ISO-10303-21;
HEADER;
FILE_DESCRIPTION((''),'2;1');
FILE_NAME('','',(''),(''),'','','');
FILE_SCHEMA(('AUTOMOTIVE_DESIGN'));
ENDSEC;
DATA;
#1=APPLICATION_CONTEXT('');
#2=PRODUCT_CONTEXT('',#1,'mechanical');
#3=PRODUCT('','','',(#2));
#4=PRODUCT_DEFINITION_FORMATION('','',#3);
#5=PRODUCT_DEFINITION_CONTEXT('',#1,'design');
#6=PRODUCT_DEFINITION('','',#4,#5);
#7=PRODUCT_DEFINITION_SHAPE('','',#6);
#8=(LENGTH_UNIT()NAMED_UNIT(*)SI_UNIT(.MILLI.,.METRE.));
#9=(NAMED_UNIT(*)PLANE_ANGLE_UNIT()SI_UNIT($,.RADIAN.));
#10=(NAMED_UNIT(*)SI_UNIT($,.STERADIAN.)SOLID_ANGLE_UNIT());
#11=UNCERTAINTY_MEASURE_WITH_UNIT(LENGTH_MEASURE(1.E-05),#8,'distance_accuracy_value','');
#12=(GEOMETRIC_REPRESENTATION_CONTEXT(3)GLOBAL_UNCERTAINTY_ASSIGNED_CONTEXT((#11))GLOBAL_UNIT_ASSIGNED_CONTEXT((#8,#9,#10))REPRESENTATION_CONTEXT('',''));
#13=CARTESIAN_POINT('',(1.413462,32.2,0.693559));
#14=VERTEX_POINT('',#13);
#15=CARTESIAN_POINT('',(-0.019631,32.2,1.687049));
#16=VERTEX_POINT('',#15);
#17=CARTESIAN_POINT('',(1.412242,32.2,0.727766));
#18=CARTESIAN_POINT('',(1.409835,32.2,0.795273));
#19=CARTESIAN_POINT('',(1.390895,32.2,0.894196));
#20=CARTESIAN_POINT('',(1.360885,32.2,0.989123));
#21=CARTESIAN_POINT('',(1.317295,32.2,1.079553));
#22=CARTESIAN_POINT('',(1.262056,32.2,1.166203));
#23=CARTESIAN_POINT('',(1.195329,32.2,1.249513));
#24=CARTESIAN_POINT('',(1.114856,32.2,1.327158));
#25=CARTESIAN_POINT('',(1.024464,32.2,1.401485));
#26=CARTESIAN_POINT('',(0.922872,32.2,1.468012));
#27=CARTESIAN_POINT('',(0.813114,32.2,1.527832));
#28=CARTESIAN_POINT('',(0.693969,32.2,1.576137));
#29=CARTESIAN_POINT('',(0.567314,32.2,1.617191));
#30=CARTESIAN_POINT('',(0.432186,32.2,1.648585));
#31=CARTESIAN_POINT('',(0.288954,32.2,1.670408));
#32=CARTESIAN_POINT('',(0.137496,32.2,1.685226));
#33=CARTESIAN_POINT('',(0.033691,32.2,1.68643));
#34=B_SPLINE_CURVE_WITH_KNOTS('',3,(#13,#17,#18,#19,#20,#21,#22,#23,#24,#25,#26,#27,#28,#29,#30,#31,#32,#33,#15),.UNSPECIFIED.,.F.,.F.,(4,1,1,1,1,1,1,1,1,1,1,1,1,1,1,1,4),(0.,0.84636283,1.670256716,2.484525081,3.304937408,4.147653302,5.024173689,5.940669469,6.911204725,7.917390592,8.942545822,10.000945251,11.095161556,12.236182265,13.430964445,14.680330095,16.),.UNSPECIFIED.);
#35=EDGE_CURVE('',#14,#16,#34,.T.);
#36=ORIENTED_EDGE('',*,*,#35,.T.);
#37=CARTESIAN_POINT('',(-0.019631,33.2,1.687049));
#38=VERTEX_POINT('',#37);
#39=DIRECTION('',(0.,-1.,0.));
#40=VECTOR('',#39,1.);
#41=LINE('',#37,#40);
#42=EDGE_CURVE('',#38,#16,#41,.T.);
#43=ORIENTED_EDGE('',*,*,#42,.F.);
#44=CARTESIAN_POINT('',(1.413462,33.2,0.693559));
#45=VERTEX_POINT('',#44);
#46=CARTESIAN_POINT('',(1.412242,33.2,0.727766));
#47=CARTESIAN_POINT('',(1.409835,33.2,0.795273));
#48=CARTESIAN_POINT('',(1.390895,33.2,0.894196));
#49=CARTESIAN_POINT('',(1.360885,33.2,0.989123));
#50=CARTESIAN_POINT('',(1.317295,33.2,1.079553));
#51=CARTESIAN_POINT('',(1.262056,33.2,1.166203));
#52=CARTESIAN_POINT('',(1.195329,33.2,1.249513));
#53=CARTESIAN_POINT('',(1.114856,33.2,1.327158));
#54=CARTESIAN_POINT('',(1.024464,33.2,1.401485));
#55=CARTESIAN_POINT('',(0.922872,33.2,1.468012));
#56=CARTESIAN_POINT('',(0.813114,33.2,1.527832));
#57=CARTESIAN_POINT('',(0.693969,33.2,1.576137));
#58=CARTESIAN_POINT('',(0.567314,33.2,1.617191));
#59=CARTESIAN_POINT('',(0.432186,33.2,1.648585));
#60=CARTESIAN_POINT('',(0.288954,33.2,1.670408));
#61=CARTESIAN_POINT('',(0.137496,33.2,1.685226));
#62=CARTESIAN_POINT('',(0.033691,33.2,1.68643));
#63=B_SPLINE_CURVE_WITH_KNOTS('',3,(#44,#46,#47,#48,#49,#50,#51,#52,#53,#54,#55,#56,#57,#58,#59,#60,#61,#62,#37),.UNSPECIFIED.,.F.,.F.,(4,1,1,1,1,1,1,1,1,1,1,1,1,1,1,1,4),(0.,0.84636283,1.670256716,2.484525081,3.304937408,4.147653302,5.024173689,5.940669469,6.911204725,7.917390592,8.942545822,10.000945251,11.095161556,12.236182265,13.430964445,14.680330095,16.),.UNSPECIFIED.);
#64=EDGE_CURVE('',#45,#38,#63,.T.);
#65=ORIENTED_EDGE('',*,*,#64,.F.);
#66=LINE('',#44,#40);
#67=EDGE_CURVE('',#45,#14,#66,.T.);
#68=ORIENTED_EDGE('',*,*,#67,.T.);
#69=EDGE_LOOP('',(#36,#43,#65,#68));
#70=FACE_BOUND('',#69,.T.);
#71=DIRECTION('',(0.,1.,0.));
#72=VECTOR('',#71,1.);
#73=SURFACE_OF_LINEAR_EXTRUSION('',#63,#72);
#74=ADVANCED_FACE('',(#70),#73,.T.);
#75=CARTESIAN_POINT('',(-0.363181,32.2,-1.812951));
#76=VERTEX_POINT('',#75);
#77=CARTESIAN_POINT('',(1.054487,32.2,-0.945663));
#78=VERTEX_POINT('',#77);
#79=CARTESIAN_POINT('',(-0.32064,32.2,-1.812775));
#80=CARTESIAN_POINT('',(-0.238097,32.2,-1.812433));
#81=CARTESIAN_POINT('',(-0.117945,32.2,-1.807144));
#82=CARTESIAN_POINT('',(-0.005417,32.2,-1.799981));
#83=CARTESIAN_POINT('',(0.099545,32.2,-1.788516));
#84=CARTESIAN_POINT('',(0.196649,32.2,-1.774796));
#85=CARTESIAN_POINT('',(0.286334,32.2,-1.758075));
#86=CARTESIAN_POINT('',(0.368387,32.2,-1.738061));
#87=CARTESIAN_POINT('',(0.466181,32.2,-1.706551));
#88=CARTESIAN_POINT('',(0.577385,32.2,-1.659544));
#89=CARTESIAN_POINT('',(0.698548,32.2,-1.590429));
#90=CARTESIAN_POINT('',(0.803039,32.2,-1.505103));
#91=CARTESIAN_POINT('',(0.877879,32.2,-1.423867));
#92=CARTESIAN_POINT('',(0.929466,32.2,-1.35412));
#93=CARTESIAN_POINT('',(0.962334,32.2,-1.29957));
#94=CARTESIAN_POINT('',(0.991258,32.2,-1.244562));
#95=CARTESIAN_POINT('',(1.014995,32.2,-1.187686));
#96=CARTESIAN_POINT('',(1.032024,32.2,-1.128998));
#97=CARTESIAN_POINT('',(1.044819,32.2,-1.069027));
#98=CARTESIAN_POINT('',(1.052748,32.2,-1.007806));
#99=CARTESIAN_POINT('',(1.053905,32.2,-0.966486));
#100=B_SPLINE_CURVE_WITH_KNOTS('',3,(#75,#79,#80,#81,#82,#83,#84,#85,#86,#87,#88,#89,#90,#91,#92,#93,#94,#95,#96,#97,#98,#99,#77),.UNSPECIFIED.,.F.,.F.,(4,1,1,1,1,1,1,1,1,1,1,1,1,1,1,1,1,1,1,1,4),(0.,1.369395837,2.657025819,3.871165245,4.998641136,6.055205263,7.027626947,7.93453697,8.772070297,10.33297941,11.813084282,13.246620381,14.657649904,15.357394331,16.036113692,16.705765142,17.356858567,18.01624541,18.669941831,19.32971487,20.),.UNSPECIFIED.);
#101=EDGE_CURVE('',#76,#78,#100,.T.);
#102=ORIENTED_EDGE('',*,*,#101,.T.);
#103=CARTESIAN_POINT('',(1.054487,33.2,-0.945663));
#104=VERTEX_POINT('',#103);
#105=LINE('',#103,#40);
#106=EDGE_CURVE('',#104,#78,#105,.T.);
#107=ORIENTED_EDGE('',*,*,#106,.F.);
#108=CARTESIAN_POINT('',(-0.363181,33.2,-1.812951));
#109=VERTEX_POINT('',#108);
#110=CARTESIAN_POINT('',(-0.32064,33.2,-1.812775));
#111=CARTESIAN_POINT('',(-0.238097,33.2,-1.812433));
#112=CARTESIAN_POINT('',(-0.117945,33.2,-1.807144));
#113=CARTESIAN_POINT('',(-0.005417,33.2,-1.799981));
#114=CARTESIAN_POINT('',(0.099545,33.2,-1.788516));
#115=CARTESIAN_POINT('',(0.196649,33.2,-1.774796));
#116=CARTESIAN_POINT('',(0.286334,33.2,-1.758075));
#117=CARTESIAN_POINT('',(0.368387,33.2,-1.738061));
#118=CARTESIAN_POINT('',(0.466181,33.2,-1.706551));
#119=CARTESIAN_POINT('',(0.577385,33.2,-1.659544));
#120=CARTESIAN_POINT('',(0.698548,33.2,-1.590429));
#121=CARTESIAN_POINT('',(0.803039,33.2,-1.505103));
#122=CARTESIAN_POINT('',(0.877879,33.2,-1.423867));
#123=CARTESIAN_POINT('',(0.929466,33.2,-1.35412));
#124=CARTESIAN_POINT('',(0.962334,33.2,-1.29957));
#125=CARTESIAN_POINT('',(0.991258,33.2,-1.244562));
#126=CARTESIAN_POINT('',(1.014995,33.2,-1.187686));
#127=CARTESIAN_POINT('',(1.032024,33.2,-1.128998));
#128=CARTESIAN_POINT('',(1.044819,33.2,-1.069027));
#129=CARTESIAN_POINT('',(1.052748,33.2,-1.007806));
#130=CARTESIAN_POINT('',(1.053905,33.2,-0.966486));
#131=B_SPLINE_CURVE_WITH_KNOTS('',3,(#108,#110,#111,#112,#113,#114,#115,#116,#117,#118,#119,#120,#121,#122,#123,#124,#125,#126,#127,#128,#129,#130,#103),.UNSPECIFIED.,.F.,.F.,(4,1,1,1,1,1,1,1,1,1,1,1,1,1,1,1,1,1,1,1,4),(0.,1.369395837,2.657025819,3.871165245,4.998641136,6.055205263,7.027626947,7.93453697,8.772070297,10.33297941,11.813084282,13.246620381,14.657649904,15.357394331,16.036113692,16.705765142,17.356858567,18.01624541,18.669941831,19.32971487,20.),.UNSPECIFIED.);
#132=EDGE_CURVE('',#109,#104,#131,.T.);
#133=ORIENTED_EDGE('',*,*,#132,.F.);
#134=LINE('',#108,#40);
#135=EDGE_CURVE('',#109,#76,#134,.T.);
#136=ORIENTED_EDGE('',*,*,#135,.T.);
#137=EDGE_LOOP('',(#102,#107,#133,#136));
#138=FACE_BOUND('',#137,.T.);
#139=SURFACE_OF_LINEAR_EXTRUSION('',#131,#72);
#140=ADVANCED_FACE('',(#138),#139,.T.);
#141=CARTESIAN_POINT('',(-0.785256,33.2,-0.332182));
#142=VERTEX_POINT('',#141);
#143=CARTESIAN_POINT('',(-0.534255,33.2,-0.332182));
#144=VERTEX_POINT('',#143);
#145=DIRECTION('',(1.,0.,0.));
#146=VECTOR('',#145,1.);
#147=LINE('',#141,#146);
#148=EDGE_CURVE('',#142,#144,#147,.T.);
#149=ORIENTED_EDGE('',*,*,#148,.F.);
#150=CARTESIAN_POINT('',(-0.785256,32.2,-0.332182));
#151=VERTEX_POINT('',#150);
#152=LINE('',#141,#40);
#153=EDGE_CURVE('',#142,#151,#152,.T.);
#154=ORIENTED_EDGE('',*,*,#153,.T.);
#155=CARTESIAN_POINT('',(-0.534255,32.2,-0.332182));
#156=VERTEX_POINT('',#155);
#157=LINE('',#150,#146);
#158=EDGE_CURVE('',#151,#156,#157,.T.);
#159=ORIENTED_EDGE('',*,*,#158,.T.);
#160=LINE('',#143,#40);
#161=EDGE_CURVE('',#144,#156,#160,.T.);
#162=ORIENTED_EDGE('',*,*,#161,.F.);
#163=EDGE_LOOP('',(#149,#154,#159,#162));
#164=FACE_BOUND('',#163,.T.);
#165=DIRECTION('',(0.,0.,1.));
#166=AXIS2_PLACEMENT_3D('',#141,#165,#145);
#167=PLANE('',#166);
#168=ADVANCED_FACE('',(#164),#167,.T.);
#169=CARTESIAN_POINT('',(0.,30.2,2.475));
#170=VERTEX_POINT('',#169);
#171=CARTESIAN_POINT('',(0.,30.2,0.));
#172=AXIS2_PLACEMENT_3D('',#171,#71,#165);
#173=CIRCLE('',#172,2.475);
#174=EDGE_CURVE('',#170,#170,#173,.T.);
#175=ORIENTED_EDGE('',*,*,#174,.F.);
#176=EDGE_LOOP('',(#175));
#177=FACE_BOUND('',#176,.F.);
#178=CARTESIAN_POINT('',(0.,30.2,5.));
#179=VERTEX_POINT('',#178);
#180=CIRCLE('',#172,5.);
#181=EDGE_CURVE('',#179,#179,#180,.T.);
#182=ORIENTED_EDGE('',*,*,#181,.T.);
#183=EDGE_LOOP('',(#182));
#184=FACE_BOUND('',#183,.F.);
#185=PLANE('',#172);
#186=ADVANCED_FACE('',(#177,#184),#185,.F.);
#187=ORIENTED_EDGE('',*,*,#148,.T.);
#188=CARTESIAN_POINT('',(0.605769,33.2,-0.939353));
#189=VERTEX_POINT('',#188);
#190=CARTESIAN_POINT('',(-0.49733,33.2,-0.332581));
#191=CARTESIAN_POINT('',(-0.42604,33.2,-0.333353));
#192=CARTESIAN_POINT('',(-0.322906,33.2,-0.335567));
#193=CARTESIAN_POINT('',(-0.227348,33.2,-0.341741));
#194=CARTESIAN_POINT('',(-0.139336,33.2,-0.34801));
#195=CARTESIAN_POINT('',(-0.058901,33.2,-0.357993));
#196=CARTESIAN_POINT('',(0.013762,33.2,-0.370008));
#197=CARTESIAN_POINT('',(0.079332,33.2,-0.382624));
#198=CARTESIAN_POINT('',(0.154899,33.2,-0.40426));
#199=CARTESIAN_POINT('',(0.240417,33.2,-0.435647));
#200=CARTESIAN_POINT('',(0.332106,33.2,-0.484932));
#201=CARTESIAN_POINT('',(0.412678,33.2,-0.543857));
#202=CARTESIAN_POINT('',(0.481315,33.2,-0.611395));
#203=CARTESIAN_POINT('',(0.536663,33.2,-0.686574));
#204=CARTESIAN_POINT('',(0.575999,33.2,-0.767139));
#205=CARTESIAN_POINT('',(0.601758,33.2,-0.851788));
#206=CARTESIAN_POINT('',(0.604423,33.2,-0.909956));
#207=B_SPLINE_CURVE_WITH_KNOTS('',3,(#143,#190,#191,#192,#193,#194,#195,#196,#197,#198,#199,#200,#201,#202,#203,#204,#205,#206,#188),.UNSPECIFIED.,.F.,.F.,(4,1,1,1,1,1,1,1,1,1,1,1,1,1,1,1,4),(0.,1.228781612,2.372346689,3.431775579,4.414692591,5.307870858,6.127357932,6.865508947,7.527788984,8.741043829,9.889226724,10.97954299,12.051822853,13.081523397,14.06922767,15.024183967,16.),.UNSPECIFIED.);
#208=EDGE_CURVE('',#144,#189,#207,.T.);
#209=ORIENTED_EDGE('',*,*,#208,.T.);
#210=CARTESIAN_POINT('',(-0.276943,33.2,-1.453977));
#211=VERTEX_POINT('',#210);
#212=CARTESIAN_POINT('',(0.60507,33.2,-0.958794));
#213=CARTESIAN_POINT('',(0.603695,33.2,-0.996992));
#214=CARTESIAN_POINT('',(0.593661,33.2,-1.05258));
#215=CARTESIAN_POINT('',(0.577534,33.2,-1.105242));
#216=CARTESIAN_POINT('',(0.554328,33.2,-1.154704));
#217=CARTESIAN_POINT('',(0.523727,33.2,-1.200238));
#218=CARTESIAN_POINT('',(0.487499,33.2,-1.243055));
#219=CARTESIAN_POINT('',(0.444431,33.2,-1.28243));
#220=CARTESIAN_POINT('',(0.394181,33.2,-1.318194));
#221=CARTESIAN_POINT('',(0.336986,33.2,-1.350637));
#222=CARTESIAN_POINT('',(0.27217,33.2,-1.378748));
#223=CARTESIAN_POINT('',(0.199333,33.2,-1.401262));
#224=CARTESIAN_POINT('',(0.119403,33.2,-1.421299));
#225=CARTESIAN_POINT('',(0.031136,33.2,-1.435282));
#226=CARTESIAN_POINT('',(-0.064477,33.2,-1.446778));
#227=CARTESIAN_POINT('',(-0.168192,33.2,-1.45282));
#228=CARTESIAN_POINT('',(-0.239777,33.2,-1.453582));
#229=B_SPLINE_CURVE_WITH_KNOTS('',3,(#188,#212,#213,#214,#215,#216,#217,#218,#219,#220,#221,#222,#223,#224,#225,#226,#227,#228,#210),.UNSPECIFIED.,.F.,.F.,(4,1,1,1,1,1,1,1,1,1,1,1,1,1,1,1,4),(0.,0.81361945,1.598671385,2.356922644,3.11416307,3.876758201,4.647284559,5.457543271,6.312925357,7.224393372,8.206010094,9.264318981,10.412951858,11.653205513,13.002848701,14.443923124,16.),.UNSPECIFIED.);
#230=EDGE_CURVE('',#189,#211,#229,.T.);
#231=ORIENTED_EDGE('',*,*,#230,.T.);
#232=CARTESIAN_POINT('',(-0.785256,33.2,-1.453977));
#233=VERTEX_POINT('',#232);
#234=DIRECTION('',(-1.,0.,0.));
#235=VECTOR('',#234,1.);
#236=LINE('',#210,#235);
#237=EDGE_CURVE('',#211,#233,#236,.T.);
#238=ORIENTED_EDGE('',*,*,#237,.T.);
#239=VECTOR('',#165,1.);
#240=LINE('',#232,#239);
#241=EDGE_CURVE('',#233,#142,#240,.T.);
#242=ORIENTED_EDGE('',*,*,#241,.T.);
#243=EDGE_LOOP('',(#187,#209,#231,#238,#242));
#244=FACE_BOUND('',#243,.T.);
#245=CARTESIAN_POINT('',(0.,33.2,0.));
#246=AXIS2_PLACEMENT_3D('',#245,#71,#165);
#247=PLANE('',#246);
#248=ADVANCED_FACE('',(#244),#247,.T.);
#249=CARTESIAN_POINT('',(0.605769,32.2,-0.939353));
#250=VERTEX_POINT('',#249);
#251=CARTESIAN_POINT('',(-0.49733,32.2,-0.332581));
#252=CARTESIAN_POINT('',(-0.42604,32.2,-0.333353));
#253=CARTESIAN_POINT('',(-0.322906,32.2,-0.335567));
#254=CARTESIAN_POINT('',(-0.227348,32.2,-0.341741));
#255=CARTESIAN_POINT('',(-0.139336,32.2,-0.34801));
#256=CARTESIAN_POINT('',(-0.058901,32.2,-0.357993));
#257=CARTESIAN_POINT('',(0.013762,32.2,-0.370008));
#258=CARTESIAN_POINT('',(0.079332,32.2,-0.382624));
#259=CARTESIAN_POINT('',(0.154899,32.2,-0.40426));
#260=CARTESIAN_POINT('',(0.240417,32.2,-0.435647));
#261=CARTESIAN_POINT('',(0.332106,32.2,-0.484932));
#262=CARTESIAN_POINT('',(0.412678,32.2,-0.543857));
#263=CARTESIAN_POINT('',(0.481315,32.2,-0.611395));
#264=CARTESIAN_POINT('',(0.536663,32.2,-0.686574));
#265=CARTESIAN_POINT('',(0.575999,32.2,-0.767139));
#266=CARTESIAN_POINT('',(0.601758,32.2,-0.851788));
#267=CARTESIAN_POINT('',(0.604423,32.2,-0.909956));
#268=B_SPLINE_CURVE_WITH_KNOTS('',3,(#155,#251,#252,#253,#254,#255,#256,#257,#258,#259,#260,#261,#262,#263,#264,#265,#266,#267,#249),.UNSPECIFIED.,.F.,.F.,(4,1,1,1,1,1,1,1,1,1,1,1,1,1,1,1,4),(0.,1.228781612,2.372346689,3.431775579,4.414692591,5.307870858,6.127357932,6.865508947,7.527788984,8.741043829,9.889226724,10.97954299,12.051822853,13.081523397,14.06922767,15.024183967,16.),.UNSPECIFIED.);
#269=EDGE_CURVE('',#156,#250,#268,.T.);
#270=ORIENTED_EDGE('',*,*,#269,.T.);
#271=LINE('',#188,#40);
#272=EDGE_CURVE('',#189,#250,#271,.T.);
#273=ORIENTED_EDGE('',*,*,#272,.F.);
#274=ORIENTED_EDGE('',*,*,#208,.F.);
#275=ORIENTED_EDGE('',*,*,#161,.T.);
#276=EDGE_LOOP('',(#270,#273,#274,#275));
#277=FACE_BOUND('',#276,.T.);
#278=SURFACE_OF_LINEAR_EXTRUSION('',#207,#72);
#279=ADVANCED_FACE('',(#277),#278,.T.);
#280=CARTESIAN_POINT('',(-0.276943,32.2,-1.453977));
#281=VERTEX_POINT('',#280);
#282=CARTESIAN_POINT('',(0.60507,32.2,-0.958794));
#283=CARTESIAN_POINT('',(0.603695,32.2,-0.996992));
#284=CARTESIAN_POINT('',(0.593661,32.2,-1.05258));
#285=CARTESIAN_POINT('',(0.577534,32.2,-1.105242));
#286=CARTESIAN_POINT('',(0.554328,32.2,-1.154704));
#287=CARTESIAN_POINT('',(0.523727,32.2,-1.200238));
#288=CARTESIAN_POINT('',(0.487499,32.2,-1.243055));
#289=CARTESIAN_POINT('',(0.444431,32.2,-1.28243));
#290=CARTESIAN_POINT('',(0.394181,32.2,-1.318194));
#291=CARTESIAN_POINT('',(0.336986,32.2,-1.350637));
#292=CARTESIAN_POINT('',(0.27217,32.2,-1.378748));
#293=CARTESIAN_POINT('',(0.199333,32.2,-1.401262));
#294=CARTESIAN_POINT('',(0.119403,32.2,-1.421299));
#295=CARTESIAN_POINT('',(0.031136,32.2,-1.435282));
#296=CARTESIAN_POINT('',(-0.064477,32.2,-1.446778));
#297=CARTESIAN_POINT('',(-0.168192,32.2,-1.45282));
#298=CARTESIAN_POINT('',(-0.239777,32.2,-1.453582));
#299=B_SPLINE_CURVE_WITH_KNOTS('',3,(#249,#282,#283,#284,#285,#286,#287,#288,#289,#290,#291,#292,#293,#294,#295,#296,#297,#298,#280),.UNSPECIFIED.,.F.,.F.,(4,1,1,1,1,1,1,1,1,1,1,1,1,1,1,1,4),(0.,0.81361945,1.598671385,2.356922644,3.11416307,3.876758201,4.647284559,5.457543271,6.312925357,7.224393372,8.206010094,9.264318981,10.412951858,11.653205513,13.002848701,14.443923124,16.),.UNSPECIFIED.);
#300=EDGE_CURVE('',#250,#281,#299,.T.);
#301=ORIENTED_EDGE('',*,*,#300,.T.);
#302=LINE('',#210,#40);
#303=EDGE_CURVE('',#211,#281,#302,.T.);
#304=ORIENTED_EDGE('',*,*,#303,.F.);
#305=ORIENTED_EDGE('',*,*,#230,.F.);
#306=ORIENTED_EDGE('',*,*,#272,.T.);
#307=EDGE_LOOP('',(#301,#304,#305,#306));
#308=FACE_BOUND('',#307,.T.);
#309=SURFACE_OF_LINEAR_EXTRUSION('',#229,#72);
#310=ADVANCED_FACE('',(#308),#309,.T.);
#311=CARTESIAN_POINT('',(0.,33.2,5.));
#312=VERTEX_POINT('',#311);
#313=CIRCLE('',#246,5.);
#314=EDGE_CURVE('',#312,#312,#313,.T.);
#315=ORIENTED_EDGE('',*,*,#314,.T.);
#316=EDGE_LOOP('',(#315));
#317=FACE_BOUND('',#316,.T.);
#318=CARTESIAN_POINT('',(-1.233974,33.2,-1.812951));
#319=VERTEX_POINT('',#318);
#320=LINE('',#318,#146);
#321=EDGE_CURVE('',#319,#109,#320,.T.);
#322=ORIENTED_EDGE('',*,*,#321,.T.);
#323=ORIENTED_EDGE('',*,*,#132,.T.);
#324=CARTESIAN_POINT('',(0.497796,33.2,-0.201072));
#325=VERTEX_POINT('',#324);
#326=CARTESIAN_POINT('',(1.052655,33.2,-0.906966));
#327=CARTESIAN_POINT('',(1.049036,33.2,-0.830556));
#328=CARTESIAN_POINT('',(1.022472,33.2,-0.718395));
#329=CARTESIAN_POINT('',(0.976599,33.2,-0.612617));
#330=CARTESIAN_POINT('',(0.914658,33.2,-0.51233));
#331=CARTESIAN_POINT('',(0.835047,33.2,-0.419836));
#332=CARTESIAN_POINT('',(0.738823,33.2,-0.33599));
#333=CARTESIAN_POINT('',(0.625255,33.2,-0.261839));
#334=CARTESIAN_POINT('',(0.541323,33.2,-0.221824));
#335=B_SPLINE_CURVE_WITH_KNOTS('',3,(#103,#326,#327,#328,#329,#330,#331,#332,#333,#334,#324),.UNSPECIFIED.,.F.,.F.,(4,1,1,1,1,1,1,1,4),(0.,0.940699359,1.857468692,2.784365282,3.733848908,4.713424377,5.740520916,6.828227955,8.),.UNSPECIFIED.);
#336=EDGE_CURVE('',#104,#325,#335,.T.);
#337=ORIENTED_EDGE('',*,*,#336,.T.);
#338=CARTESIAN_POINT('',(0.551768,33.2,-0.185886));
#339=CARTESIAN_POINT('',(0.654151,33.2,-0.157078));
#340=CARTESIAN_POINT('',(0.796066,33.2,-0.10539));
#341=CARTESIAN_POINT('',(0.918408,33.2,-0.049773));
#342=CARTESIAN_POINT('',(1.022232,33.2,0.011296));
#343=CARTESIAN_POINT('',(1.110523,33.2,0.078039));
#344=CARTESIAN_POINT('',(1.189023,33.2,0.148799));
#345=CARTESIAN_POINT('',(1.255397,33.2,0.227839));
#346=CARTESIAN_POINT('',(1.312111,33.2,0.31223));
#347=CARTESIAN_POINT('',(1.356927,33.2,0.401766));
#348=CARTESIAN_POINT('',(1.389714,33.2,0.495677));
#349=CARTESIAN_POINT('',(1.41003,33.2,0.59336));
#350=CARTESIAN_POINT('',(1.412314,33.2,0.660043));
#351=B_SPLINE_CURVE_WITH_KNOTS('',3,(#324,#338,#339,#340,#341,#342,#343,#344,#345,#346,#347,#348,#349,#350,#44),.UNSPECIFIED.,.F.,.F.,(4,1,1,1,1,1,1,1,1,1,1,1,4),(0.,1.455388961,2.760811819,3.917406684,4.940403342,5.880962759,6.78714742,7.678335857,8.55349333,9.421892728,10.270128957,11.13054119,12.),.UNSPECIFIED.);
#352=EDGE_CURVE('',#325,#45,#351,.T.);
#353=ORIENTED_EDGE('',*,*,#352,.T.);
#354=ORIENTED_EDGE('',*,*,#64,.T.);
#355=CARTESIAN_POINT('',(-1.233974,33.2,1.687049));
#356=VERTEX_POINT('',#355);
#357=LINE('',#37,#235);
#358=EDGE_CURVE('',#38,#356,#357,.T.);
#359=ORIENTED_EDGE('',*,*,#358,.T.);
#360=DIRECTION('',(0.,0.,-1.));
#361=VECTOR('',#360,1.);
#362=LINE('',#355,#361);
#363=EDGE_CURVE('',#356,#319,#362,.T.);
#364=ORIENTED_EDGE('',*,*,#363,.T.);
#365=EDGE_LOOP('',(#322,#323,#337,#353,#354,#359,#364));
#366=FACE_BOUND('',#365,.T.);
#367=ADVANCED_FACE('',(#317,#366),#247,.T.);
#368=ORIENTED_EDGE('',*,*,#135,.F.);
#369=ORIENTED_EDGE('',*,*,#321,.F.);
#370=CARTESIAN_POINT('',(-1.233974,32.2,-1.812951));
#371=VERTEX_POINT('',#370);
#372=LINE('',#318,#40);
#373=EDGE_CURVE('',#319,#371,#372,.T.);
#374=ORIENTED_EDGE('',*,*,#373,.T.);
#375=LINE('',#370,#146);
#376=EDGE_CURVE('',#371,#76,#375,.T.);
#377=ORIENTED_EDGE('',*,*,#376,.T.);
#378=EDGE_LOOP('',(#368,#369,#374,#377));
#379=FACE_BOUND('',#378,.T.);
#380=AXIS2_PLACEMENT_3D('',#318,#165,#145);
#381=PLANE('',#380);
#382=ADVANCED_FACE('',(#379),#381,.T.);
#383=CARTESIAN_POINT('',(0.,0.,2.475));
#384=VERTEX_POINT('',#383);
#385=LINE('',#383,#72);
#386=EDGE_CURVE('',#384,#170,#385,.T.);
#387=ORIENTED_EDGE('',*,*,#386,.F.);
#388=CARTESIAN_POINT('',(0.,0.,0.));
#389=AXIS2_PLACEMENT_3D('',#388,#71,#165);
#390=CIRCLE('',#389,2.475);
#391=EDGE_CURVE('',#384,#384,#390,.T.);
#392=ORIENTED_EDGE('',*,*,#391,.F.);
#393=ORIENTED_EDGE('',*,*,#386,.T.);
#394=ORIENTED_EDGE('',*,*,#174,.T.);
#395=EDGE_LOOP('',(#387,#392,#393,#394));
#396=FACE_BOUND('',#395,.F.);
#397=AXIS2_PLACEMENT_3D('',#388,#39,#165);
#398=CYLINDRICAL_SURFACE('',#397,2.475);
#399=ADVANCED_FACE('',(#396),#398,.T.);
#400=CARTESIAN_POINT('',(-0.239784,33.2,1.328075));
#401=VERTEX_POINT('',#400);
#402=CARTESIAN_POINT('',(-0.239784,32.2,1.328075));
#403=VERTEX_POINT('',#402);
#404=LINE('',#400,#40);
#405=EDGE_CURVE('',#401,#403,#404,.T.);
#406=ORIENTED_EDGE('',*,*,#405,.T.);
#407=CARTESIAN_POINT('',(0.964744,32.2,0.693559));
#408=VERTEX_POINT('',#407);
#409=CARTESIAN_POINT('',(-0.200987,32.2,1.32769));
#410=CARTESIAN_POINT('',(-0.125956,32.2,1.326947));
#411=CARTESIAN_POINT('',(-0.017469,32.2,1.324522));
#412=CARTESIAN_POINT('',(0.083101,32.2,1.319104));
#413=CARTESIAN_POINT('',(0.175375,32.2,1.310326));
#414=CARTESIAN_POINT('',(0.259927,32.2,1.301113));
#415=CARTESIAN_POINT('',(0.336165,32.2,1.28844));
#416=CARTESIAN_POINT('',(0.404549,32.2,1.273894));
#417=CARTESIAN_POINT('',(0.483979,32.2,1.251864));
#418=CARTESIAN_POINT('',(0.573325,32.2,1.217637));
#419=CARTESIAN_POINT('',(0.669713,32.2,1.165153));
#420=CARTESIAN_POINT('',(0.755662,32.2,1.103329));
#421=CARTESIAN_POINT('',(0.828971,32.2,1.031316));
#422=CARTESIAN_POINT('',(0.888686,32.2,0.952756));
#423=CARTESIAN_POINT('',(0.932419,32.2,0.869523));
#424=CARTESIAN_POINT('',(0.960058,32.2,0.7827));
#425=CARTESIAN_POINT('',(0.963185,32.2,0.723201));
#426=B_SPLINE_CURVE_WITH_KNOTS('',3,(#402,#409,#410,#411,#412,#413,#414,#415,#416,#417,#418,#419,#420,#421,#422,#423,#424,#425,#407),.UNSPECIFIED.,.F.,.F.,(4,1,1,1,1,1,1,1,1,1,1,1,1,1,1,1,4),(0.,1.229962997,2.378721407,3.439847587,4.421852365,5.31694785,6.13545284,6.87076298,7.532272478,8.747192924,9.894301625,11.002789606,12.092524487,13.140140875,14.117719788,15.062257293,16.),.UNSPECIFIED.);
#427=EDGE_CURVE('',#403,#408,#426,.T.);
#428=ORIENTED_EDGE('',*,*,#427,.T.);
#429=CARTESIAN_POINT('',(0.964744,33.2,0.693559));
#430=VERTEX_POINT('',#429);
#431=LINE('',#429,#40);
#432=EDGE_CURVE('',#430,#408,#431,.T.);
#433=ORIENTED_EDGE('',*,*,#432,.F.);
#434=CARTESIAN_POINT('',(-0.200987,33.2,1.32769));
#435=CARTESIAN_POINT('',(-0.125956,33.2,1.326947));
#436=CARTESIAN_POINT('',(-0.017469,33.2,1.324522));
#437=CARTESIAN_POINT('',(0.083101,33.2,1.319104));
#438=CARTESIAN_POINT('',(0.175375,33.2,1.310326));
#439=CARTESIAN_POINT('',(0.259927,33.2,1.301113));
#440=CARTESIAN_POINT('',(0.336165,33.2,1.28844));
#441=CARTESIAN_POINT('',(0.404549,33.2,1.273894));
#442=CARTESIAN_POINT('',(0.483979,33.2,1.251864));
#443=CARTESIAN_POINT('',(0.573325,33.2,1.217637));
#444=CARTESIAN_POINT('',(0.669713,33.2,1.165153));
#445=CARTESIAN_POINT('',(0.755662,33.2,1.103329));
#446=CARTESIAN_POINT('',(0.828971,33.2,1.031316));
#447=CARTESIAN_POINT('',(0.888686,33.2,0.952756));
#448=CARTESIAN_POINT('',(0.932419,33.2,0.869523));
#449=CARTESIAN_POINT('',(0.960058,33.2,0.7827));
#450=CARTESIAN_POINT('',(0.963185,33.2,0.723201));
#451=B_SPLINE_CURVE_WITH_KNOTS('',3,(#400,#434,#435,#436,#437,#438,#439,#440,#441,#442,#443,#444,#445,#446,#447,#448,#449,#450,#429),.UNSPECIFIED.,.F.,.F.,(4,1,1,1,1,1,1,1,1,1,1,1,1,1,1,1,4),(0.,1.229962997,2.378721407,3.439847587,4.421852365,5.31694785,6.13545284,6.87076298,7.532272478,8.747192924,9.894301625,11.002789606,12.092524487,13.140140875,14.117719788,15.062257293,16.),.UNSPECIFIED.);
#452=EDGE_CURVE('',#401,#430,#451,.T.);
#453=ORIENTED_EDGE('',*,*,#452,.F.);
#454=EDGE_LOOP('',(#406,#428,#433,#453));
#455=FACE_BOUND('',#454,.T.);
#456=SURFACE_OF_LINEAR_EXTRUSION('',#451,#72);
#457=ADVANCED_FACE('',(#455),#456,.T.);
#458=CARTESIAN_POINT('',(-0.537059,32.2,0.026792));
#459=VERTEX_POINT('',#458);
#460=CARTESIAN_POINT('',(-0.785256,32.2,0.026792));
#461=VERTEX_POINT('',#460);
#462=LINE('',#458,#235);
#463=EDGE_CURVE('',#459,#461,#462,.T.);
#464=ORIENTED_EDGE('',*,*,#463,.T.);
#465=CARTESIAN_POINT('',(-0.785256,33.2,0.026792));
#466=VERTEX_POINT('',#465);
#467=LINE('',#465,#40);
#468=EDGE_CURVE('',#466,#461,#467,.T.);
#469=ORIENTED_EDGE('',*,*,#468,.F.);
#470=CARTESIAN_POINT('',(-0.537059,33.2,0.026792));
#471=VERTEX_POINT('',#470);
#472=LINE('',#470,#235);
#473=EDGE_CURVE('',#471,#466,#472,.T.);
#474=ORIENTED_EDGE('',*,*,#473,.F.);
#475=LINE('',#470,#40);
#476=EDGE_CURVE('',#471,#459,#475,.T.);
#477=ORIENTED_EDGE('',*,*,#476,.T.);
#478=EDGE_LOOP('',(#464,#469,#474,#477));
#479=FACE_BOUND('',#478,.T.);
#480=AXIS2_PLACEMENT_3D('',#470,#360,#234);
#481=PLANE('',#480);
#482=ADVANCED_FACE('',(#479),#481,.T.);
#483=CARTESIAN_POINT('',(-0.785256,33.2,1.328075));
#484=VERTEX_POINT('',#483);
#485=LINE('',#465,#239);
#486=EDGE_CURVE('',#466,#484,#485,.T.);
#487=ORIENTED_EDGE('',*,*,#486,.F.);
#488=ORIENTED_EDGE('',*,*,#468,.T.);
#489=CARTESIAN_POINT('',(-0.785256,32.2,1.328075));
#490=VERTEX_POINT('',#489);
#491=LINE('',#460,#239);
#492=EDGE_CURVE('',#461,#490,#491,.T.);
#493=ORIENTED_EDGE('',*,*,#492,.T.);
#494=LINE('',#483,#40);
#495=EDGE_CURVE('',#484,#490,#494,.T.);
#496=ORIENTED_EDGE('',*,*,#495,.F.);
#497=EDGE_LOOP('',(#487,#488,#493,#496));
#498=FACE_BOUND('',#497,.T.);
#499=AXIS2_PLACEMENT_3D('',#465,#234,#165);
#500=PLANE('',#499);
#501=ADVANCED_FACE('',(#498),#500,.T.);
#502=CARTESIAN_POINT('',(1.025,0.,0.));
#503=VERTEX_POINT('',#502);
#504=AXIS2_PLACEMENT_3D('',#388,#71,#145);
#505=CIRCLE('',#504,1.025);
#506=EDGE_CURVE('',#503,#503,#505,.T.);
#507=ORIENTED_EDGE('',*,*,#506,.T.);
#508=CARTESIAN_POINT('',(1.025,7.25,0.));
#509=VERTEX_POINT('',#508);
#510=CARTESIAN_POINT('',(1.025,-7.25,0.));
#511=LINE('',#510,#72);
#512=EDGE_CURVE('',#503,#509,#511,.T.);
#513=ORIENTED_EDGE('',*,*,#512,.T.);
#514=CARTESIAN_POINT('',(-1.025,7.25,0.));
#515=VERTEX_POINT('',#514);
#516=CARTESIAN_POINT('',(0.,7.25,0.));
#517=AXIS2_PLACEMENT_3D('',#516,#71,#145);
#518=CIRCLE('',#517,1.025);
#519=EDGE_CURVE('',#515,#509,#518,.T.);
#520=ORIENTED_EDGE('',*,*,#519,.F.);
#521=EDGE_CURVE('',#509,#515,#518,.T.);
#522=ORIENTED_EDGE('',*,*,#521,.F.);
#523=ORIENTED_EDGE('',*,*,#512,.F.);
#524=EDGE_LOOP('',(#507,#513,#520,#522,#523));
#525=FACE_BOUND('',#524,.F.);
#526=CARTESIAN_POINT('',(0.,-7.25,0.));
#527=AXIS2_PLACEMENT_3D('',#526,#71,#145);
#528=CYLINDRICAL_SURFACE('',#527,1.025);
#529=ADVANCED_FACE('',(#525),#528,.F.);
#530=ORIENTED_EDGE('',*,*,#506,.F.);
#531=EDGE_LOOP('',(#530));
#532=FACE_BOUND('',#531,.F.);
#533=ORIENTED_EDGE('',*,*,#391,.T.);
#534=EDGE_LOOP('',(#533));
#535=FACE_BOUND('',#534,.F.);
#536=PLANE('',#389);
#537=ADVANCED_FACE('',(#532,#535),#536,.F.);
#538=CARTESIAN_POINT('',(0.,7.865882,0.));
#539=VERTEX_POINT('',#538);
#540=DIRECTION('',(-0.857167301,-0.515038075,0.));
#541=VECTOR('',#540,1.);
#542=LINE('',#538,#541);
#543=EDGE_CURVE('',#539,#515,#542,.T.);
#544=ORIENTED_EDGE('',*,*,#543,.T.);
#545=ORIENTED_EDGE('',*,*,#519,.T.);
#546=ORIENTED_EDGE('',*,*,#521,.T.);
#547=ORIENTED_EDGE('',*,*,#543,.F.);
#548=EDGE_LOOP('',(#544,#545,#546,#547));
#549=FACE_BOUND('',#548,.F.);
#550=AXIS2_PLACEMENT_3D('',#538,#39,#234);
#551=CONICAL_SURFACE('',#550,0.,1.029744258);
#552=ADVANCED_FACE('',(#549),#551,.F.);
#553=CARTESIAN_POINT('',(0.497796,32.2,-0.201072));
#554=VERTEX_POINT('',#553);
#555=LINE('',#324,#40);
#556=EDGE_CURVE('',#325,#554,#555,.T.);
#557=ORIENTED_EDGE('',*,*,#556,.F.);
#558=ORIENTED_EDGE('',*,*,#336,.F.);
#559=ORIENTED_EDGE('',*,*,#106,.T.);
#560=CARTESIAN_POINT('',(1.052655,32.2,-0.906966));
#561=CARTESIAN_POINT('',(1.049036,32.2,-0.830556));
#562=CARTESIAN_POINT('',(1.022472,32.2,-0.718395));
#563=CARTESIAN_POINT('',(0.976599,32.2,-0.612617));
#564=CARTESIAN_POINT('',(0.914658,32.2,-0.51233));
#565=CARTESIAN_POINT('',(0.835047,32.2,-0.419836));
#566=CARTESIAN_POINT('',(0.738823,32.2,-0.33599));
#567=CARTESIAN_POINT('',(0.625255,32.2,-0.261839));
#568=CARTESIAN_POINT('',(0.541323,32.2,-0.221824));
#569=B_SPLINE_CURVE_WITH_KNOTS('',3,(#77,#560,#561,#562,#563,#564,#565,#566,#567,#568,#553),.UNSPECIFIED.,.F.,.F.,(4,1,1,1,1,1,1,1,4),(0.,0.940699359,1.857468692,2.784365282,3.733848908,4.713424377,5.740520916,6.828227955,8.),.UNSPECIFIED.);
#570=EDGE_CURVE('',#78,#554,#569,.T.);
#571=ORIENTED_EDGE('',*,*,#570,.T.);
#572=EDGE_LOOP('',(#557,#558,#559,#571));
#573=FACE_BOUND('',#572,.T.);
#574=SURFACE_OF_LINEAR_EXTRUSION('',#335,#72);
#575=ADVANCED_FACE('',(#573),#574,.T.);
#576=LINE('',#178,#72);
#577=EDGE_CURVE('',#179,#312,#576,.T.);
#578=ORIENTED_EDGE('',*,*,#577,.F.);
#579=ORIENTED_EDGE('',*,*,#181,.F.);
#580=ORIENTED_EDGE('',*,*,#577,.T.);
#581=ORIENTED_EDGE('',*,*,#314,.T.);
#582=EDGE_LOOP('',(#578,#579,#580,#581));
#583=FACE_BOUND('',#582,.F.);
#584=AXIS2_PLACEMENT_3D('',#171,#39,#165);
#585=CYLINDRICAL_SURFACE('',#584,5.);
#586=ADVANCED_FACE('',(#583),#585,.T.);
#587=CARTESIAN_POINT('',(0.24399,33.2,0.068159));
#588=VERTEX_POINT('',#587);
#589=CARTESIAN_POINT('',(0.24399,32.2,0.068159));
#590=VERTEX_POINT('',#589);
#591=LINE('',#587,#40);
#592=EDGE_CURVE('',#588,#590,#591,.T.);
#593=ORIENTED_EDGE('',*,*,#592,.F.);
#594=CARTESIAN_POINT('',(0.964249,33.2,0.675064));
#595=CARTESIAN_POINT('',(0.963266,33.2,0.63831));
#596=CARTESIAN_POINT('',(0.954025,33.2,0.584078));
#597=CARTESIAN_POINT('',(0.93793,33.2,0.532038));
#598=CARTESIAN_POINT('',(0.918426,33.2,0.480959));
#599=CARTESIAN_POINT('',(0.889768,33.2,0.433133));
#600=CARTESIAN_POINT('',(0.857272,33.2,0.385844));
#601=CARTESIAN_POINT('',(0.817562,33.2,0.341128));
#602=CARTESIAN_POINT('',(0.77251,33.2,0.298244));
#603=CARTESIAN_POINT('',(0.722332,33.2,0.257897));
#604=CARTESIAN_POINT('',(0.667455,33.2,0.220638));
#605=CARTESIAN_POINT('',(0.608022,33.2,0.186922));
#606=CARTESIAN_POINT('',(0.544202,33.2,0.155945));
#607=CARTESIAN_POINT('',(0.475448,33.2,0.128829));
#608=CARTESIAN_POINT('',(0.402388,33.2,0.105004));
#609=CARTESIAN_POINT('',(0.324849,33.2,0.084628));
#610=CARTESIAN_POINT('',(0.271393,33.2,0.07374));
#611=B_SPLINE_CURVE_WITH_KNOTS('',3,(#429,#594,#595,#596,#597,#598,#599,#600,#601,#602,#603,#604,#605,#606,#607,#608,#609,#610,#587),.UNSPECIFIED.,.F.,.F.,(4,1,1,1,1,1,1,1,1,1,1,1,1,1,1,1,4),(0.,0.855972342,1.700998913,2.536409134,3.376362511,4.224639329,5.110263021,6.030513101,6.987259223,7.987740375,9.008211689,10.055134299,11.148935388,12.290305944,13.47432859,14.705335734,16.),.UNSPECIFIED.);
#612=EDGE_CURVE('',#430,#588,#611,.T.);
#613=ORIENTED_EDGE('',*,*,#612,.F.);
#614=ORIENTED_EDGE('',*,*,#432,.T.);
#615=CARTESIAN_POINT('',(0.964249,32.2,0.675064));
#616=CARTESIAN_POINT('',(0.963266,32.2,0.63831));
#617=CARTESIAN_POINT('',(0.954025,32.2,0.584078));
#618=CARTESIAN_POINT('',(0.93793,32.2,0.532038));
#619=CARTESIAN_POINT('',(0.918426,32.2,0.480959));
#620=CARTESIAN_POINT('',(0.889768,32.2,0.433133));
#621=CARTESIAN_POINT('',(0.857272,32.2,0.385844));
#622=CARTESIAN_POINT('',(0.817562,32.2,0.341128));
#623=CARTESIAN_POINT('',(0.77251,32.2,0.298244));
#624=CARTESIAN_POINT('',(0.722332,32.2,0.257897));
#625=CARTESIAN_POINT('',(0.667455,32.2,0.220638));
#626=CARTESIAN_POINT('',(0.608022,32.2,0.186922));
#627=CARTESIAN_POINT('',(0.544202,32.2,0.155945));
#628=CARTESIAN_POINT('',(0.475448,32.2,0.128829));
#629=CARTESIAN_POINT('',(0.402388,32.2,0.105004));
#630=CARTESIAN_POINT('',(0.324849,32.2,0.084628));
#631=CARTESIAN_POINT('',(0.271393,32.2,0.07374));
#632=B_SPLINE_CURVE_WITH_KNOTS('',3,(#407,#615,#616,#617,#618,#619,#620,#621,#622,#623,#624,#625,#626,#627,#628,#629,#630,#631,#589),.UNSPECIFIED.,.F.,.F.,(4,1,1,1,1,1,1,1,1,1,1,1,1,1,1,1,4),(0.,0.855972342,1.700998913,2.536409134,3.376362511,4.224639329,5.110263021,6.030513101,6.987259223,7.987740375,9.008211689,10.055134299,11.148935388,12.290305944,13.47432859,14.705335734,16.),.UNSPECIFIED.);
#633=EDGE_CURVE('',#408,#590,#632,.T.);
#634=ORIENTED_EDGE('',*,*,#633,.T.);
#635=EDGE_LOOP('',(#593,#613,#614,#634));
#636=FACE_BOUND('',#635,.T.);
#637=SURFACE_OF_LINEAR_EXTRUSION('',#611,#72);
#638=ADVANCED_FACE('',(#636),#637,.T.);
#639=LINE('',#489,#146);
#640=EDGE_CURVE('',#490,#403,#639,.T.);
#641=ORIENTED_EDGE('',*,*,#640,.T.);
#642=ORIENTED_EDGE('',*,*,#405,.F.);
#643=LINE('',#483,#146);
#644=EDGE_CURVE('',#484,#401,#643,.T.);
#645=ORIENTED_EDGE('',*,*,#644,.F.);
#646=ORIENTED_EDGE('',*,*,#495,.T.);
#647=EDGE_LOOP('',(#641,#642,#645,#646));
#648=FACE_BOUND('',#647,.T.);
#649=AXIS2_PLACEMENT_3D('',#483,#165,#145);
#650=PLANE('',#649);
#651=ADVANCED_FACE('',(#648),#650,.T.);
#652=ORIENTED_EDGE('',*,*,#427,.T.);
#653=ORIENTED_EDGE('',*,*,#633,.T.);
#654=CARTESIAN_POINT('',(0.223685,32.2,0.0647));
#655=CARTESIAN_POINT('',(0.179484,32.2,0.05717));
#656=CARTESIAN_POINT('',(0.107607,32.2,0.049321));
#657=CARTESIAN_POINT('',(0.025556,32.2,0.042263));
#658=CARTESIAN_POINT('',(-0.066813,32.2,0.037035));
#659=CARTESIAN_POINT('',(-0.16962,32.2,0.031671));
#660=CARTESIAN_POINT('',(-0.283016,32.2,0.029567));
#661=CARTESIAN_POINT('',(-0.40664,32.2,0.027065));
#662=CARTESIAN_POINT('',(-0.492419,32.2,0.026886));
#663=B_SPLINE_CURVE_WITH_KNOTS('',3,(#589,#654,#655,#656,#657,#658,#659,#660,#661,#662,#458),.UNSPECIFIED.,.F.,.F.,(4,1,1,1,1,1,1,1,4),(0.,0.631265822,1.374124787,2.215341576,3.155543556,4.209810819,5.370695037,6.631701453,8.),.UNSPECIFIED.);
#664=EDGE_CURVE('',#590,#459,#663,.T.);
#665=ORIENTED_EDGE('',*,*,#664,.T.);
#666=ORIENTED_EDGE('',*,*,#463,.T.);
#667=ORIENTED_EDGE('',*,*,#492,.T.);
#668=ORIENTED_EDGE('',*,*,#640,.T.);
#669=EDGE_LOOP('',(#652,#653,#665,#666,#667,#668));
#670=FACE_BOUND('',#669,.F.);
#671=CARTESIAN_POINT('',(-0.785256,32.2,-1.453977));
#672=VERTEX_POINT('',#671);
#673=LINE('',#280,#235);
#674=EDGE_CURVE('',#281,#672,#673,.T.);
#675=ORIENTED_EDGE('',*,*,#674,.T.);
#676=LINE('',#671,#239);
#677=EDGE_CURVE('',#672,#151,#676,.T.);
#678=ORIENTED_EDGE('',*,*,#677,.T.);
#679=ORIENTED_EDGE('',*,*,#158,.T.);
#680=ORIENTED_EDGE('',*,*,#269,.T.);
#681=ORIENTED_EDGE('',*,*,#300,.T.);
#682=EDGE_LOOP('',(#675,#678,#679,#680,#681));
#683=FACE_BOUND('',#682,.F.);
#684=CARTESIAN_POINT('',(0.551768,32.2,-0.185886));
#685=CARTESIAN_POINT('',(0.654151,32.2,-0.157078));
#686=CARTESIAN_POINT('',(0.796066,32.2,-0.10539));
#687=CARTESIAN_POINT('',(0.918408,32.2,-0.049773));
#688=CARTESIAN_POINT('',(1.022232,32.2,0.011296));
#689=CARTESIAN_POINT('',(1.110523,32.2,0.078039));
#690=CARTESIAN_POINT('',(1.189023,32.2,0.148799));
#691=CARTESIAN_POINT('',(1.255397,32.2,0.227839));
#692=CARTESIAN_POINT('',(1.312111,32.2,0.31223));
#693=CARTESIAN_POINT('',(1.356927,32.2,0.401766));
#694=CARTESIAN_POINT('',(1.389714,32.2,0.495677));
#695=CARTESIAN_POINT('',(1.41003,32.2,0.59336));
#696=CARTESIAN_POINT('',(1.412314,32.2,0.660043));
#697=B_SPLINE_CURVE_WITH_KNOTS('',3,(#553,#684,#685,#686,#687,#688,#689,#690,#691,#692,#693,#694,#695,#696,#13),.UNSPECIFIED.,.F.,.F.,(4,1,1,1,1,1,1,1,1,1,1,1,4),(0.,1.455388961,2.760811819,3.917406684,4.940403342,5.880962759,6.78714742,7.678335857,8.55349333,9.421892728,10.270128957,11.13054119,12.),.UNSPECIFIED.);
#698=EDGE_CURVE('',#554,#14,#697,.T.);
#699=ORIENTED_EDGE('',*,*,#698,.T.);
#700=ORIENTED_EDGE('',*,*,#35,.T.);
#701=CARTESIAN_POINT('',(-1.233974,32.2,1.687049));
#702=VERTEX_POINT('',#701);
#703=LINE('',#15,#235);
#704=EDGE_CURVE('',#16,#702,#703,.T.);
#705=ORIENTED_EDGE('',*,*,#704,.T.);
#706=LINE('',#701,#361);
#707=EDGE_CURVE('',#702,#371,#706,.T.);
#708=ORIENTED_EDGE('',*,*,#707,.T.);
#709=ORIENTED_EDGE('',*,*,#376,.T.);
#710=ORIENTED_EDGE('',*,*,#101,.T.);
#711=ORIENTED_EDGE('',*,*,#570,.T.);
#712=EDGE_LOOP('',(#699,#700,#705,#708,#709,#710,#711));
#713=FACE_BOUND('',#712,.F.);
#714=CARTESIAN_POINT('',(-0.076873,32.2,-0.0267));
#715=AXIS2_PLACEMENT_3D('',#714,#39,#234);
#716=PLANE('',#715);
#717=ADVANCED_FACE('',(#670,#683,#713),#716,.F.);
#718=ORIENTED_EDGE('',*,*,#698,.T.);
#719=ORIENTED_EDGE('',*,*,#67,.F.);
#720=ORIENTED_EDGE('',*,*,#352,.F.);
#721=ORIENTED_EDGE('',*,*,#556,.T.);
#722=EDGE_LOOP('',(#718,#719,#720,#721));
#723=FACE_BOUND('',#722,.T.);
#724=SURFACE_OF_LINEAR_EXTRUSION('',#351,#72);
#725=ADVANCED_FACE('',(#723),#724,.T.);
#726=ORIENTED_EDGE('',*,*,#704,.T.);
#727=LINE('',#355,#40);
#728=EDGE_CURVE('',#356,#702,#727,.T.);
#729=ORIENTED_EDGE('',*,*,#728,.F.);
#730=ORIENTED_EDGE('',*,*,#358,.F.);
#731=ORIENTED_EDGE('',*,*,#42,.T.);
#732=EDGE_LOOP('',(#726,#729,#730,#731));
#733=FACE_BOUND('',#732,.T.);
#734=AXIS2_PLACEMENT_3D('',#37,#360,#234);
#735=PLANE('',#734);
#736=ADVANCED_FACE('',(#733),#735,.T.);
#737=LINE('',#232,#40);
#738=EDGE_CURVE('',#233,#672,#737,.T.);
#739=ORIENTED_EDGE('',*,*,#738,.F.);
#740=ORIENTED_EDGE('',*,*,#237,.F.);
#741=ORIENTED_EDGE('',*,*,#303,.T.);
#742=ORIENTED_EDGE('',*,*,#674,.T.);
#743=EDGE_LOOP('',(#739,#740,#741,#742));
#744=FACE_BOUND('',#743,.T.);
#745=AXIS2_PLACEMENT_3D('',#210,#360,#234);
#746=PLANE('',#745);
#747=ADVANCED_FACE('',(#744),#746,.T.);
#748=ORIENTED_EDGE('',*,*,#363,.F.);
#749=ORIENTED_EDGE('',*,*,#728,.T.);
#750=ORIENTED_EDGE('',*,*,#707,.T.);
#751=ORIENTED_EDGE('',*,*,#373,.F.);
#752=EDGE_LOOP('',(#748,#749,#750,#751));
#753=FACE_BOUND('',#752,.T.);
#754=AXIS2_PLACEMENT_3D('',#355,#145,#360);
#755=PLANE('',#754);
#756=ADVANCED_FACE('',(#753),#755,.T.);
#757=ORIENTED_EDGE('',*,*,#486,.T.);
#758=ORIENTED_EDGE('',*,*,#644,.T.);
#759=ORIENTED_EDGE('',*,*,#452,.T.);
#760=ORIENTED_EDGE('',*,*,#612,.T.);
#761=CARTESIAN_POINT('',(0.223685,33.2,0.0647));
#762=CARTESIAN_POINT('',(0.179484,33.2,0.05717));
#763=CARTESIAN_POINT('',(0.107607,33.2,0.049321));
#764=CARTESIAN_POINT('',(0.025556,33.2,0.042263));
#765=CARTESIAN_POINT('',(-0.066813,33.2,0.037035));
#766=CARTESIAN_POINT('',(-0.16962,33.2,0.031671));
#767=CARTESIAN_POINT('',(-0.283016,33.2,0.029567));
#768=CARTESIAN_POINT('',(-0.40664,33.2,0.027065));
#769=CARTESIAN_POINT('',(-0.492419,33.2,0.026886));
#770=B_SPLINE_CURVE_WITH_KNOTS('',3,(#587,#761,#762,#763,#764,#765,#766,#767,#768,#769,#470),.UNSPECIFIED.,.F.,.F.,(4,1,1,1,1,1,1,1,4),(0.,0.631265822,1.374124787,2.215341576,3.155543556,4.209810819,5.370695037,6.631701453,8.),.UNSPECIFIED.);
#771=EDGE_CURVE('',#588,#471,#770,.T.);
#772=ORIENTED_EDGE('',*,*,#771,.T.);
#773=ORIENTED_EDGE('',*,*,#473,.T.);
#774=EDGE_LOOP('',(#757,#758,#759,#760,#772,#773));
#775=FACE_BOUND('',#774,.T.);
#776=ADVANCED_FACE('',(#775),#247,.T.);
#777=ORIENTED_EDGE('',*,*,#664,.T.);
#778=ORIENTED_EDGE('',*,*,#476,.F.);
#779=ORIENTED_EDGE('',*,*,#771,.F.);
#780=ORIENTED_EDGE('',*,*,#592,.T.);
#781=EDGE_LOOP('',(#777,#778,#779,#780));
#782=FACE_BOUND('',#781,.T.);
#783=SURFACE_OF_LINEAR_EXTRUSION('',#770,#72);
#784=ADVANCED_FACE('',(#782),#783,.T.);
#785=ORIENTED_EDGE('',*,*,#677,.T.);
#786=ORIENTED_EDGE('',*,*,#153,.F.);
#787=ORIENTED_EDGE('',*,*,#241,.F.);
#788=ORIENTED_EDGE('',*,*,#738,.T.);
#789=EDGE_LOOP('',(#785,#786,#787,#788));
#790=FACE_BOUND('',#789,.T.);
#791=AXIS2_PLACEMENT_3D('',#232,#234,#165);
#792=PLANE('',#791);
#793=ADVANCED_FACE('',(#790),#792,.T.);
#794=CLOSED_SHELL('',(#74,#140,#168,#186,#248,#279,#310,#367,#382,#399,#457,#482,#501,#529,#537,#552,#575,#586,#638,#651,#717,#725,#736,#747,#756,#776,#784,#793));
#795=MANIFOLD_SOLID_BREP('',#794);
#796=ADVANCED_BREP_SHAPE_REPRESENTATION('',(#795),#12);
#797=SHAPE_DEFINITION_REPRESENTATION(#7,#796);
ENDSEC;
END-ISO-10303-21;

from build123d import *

# Parameters (mm, degrees)
SKETCH1_R                    = 2.475
BOSS_EXTRUDE1_DEPTH          = 30.2
SKETCH2_R                    = 5
BOSS_EXTRUDE2_DEPTH          = 3
M2_5X0_45_TAPPED_HOLE2_D     = 2.05
M2_5X0_45_TAPPED_HOLE2_DEPTH = 7.25
M2_5X0_45_TAPPED_HOLE2_TIP   = 0.615882135
CUT_EXTRUDE1_DEPTH           = 1


with BuildPart() as part:
    # Sketch1 → Boss-Extrude1 (new body)
    with BuildSketch(Plane(origin=(0, 0, 0), x_dir=(1, 0, 0), z_dir=(0, 1, 0))):
        with Locations(Location((0, 0, 0), (0, 0, 270))):
            Circle(SKETCH1_R)
    extrude(amount=BOSS_EXTRUDE1_DEPTH)

    # Sketch2 → Boss-Extrude2 (add)
    with BuildSketch(Plane(origin=(0, 30.2, 0), x_dir=(1, 0, 0), z_dir=(0, 1, 0))):
        with Locations(Location((0, 0, 0), (0, 0, 270))):
            Circle(SKETCH2_R)
    extrude(amount=BOSS_EXTRUDE2_DEPTH)

    # M2.5x0.45 Tapped Hole2
    with Locations(Plane(origin=(0, 0, 0), x_dir=(-1, 0, 0), z_dir=(0, -1, 0))):
        with Locations((0, 0)):
            Hole(M2_5X0_45_TAPPED_HOLE2_D / 2, depth=M2_5X0_45_TAPPED_HOLE2_DEPTH)
            with Locations((0, 0, -(M2_5X0_45_TAPPED_HOLE2_DEPTH + M2_5X0_45_TAPPED_HOLE2_TIP / 2))):  # 118° drill point
                Cone(0, M2_5X0_45_TAPPED_HOLE2_D / 2, M2_5X0_45_TAPPED_HOLE2_TIP, mode=Mode.SUBTRACT)

    # Sketch15 → Cut-Extrude1 (cut)
    with BuildSketch(Plane(origin=(0, 33.2, 0), x_dir=(1, 0, 0), z_dir=(0, 1, 0))):
        with BuildLine():
            Line((-1.233974359, 1.812951114), (-0.36318109, 1.812951114))
            add(Edge.make_bspline(
                [(-0.36318109, 1.812951114), (-0.320639792, 1.81277482), (-0.238097313, 1.812432758), (-0.117944897, 1.807143974), (-0.005417149, 1.799981229), (0.099544539, 1.788516219), (0.196648731, 1.774795951), (0.286334292, 1.758075463), (0.368386787, 1.738061375), (0.466181104, 1.706551189), (0.577385314, 1.659544464), (0.69854813, 1.590428983), (0.803039094, 1.505102662), (0.877878706, 1.423867273), (0.929466312, 1.354120247), (0.962333975, 1.29956986), (0.991258246, 1.244562421), (1.014994605, 1.187686093), (1.03202411, 1.128998157), (1.044819465, 1.069026747), (1.052748306, 1.007805904), (1.053904509, 0.96648646), (1.054487179, 0.945663454)],
                knots=[0, 0, 0, 0, 1.369395837, 2.657025819, 3.871165245, 4.998641136, 6.055205263, 7.027626947, 7.93453697, 8.772070297, 10.33297941, 11.813084282, 13.246620381, 14.657649904, 15.357394331, 16.036113692, 16.705765142, 17.356858567, 18.01624541, 18.669941831, 19.32971487, 20, 20, 20, 20], degree=3))
            add(Edge.make_bspline(
                [(1.054487179, 0.945663454), (1.052654691, 0.906966077), (1.049036329, 0.83055573), (1.022472193, 0.718394704), (0.976599056, 0.612617091), (0.914657599, 0.512329552), (0.835047458, 0.419836309), (0.738822803, 0.335989818), (0.625254813, 0.261839362), (0.541323489, 0.221824121), (0.497796474, 0.201072108)],
                knots=[0, 0, 0, 0, 0.940699359, 1.857468692, 2.784365282, 3.733848908, 4.713424377, 5.740520916, 6.828227955, 8, 8, 8, 8], degree=3))
            add(Edge.make_bspline(
                [(0.497796474, 0.201072108), (0.551768458, 0.185885857), (0.654151048, 0.157078178), (0.796065663, 0.105389985), (0.918408451, 0.049772841), (1.022231895, -0.011295733), (1.110522963, -0.078039162), (1.189022557, -0.14879913), (1.255397333, -0.227838547), (1.312111012, -0.312229672), (1.356926733, -0.401765633), (1.389714175, -0.495676987), (1.410030166, -0.593359641), (1.412313767, -0.660043172), (1.413461538, -0.693559303)],
                knots=[0, 0, 0, 0, 1.455388961, 2.760811819, 3.917406684, 4.940403342, 5.880962759, 6.78714742, 7.678335857, 8.55349333, 9.421892728, 10.270128957, 11.13054119, 12, 12, 12, 12], degree=3))
            add(Edge.make_bspline(
                [(1.413461538, -0.693559303), (1.412242032, -0.727766419), (1.409835393, -0.795272532), (1.390894564, -0.894196499), (1.36088474, -0.989122853), (1.317295116, -1.079552584), (1.262055501, -1.166202634), (1.195329189, -1.249512571), (1.114856404, -1.327158434), (1.024464106, -1.401484855), (0.922871793, -1.468011987), (0.813113979, -1.527831578), (0.693968983, -1.576136638), (0.567314142, -1.617190861), (0.43218615, -1.648584594), (0.288953701, -1.670407593), (0.137495898, -1.685226372), (0.033691266, -1.686430398), (-0.01963141, -1.687048886)],
                knots=[0, 0, 0, 0, 0.84636283, 1.670256716, 2.484525081, 3.304937408, 4.147653302, 5.024173689, 5.940669469, 6.911204725, 7.917390592, 8.942545822, 10.000945251, 11.095161556, 12.236182265, 13.430964445, 14.680330095, 16, 16, 16, 16], degree=3))
            Line((-0.01963141, -1.687048886), (-1.233974359, -1.687048886))
            Line((-1.233974359, -1.687048886), (-1.233974359, 1.812951114))
        make_face()
        with BuildLine():
            Line((-0.78525641, 1.453976755), (-0.78525641, 0.332181883))
            Line((-0.78525641, 0.332181883), (-0.534254808, 0.332181883))
            add(Edge.make_bspline(
                [(-0.534254808, 0.332181883), (-0.497329505, 0.332581376), (-0.426039685, 0.333352655), (-0.322906469, 0.335567073), (-0.227348255, 0.341740614), (-0.139336138, 0.348009662), (-0.058900721, 0.357993139), (0.013762316, 0.370008339), (0.079332379, 0.382624131), (0.154899034, 0.404259896), (0.240417473, 0.435647338), (0.332105819, 0.484931753), (0.412678402, 0.543856716), (0.481314845, 0.611394969), (0.536663448, 0.686573824), (0.57599864, 0.767139114), (0.601758026, 0.851788302), (0.604422567, 0.909955529), (0.605769231, 0.939353358)],
                knots=[0, 0, 0, 0, 1.228781612, 2.372346689, 3.431775579, 4.414692591, 5.307870858, 6.127357932, 6.865508947, 7.527788984, 8.741043829, 9.889226724, 10.97954299, 12.051822853, 13.081523397, 14.06922767, 15.024183967, 16, 16, 16, 16], degree=3))
            add(Edge.make_bspline(
                [(0.605769231, 0.939353358), (0.605069578, 0.958793616), (0.603694839, 0.996991554), (0.593661455, 1.052580133), (0.577534344, 1.105242414), (0.554328035, 1.154703777), (0.5237272, 1.200237525), (0.487498602, 1.243054995), (0.444430933, 1.282429509), (0.394180863, 1.318194021), (0.336986398, 1.350636833), (0.272169726, 1.378747532), (0.199333131, 1.401261658), (0.119403459, 1.421298849), (0.031136116, 1.435282122), (-0.064476809, 1.446778275), (-0.168191884, 1.452820409), (-0.239777112, 1.453581571), (-0.276943109, 1.453976755)],
                knots=[0, 0, 0, 0, 0.81361945, 1.598671385, 2.356922644, 3.11416307, 3.876758201, 4.647284559, 5.457543271, 6.312925357, 7.224393372, 8.206010094, 9.264318981, 10.412951858, 11.653205513, 13.002848701, 14.443923124, 16, 16, 16, 16], degree=3))
            Line((-0.276943109, 1.453976755), (-0.78525641, 1.453976755))
        make_face(mode=Mode.SUBTRACT)
        with BuildLine():
            Line((-0.78525641, -0.026792476), (-0.78525641, -1.328074527))
            Line((-0.78525641, -1.328074527), (-0.239783654, -1.328074527))
            add(Edge.make_bspline(
                [(-0.239783654, -1.328074527), (-0.200987304, -1.327690356), (-0.125956017, -1.326947378), (-0.017469258, -1.324522225), (0.083100767, -1.3191041), (0.17537521, -1.31032603), (0.259927106, -1.301113071), (0.336165219, -1.288439684), (0.40454898, -1.273893981), (0.483978905, -1.251863739), (0.573325451, -1.217636717), (0.669712619, -1.165152633), (0.75566181, -1.103329109), (0.828970911, -1.03131561), (0.888686141, -0.952756222), (0.932418672, -0.869523141), (0.96005753, -0.782699587), (0.963185334, -0.723201137), (0.96474359, -0.693559303)],
                knots=[0, 0, 0, 0, 1.229962997, 2.378721407, 3.439847587, 4.421852365, 5.31694785, 6.13545284, 6.87076298, 7.532272478, 8.747192924, 9.894301625, 11.002789606, 12.092524487, 13.140140875, 14.117719788, 15.062257293, 16, 16, 16, 16], degree=3))
            add(Edge.make_bspline(
                [(0.96474359, -0.693559303), (0.964248878, -0.675063946), (0.963265781, -0.638309743), (0.954024974, -0.584078298), (0.937930082, -0.532037628), (0.91842641, -0.48095885), (0.889767871, -0.433133136), (0.857272369, -0.385843714), (0.817562099, -0.341127783), (0.772510175, -0.298244001), (0.722331889, -0.257897223), (0.667454581, -0.22063784), (0.608022441, -0.186922123), (0.544201506, -0.155945118), (0.47544777, -0.128829439), (0.402387834, -0.105003984), (0.324849413, -0.084628111), (0.271392504, -0.073739953), (0.243990385, -0.068158662)],
                knots=[0, 0, 0, 0, 0.855972342, 1.700998913, 2.536409134, 3.376362511, 4.224639329, 5.110263021, 6.030513101, 6.987259223, 7.987740375, 9.008211689, 10.055134299, 11.148935388, 12.290305944, 13.47432859, 14.705335734, 16, 16, 16, 16], degree=3))
            add(Edge.make_bspline(
                [(0.243990385, -0.068158662), (0.223684811, -0.064699565), (0.179484109, -0.057169883), (0.107606648, -0.049320661), (0.025555986, -0.042263275), (-0.066812959, -0.037035463), (-0.169619858, -0.031670757), (-0.283016111, -0.029566976), (-0.406639983, -0.027064663), (-0.492419411, -0.02688564), (-0.537059295, -0.026792476)],
                knots=[0, 0, 0, 0, 0.631265822, 1.374124787, 2.215341576, 3.155543556, 4.209810819, 5.370695037, 6.631701453, 8, 8, 8, 8], degree=3))
            Line((-0.537059295, -0.026792476), (-0.78525641, -0.026792476))
        make_face(mode=Mode.SUBTRACT)
    extrude(amount=-CUT_EXTRUDE1_DEPTH, mode=Mode.SUBTRACT)


solid = part.part
